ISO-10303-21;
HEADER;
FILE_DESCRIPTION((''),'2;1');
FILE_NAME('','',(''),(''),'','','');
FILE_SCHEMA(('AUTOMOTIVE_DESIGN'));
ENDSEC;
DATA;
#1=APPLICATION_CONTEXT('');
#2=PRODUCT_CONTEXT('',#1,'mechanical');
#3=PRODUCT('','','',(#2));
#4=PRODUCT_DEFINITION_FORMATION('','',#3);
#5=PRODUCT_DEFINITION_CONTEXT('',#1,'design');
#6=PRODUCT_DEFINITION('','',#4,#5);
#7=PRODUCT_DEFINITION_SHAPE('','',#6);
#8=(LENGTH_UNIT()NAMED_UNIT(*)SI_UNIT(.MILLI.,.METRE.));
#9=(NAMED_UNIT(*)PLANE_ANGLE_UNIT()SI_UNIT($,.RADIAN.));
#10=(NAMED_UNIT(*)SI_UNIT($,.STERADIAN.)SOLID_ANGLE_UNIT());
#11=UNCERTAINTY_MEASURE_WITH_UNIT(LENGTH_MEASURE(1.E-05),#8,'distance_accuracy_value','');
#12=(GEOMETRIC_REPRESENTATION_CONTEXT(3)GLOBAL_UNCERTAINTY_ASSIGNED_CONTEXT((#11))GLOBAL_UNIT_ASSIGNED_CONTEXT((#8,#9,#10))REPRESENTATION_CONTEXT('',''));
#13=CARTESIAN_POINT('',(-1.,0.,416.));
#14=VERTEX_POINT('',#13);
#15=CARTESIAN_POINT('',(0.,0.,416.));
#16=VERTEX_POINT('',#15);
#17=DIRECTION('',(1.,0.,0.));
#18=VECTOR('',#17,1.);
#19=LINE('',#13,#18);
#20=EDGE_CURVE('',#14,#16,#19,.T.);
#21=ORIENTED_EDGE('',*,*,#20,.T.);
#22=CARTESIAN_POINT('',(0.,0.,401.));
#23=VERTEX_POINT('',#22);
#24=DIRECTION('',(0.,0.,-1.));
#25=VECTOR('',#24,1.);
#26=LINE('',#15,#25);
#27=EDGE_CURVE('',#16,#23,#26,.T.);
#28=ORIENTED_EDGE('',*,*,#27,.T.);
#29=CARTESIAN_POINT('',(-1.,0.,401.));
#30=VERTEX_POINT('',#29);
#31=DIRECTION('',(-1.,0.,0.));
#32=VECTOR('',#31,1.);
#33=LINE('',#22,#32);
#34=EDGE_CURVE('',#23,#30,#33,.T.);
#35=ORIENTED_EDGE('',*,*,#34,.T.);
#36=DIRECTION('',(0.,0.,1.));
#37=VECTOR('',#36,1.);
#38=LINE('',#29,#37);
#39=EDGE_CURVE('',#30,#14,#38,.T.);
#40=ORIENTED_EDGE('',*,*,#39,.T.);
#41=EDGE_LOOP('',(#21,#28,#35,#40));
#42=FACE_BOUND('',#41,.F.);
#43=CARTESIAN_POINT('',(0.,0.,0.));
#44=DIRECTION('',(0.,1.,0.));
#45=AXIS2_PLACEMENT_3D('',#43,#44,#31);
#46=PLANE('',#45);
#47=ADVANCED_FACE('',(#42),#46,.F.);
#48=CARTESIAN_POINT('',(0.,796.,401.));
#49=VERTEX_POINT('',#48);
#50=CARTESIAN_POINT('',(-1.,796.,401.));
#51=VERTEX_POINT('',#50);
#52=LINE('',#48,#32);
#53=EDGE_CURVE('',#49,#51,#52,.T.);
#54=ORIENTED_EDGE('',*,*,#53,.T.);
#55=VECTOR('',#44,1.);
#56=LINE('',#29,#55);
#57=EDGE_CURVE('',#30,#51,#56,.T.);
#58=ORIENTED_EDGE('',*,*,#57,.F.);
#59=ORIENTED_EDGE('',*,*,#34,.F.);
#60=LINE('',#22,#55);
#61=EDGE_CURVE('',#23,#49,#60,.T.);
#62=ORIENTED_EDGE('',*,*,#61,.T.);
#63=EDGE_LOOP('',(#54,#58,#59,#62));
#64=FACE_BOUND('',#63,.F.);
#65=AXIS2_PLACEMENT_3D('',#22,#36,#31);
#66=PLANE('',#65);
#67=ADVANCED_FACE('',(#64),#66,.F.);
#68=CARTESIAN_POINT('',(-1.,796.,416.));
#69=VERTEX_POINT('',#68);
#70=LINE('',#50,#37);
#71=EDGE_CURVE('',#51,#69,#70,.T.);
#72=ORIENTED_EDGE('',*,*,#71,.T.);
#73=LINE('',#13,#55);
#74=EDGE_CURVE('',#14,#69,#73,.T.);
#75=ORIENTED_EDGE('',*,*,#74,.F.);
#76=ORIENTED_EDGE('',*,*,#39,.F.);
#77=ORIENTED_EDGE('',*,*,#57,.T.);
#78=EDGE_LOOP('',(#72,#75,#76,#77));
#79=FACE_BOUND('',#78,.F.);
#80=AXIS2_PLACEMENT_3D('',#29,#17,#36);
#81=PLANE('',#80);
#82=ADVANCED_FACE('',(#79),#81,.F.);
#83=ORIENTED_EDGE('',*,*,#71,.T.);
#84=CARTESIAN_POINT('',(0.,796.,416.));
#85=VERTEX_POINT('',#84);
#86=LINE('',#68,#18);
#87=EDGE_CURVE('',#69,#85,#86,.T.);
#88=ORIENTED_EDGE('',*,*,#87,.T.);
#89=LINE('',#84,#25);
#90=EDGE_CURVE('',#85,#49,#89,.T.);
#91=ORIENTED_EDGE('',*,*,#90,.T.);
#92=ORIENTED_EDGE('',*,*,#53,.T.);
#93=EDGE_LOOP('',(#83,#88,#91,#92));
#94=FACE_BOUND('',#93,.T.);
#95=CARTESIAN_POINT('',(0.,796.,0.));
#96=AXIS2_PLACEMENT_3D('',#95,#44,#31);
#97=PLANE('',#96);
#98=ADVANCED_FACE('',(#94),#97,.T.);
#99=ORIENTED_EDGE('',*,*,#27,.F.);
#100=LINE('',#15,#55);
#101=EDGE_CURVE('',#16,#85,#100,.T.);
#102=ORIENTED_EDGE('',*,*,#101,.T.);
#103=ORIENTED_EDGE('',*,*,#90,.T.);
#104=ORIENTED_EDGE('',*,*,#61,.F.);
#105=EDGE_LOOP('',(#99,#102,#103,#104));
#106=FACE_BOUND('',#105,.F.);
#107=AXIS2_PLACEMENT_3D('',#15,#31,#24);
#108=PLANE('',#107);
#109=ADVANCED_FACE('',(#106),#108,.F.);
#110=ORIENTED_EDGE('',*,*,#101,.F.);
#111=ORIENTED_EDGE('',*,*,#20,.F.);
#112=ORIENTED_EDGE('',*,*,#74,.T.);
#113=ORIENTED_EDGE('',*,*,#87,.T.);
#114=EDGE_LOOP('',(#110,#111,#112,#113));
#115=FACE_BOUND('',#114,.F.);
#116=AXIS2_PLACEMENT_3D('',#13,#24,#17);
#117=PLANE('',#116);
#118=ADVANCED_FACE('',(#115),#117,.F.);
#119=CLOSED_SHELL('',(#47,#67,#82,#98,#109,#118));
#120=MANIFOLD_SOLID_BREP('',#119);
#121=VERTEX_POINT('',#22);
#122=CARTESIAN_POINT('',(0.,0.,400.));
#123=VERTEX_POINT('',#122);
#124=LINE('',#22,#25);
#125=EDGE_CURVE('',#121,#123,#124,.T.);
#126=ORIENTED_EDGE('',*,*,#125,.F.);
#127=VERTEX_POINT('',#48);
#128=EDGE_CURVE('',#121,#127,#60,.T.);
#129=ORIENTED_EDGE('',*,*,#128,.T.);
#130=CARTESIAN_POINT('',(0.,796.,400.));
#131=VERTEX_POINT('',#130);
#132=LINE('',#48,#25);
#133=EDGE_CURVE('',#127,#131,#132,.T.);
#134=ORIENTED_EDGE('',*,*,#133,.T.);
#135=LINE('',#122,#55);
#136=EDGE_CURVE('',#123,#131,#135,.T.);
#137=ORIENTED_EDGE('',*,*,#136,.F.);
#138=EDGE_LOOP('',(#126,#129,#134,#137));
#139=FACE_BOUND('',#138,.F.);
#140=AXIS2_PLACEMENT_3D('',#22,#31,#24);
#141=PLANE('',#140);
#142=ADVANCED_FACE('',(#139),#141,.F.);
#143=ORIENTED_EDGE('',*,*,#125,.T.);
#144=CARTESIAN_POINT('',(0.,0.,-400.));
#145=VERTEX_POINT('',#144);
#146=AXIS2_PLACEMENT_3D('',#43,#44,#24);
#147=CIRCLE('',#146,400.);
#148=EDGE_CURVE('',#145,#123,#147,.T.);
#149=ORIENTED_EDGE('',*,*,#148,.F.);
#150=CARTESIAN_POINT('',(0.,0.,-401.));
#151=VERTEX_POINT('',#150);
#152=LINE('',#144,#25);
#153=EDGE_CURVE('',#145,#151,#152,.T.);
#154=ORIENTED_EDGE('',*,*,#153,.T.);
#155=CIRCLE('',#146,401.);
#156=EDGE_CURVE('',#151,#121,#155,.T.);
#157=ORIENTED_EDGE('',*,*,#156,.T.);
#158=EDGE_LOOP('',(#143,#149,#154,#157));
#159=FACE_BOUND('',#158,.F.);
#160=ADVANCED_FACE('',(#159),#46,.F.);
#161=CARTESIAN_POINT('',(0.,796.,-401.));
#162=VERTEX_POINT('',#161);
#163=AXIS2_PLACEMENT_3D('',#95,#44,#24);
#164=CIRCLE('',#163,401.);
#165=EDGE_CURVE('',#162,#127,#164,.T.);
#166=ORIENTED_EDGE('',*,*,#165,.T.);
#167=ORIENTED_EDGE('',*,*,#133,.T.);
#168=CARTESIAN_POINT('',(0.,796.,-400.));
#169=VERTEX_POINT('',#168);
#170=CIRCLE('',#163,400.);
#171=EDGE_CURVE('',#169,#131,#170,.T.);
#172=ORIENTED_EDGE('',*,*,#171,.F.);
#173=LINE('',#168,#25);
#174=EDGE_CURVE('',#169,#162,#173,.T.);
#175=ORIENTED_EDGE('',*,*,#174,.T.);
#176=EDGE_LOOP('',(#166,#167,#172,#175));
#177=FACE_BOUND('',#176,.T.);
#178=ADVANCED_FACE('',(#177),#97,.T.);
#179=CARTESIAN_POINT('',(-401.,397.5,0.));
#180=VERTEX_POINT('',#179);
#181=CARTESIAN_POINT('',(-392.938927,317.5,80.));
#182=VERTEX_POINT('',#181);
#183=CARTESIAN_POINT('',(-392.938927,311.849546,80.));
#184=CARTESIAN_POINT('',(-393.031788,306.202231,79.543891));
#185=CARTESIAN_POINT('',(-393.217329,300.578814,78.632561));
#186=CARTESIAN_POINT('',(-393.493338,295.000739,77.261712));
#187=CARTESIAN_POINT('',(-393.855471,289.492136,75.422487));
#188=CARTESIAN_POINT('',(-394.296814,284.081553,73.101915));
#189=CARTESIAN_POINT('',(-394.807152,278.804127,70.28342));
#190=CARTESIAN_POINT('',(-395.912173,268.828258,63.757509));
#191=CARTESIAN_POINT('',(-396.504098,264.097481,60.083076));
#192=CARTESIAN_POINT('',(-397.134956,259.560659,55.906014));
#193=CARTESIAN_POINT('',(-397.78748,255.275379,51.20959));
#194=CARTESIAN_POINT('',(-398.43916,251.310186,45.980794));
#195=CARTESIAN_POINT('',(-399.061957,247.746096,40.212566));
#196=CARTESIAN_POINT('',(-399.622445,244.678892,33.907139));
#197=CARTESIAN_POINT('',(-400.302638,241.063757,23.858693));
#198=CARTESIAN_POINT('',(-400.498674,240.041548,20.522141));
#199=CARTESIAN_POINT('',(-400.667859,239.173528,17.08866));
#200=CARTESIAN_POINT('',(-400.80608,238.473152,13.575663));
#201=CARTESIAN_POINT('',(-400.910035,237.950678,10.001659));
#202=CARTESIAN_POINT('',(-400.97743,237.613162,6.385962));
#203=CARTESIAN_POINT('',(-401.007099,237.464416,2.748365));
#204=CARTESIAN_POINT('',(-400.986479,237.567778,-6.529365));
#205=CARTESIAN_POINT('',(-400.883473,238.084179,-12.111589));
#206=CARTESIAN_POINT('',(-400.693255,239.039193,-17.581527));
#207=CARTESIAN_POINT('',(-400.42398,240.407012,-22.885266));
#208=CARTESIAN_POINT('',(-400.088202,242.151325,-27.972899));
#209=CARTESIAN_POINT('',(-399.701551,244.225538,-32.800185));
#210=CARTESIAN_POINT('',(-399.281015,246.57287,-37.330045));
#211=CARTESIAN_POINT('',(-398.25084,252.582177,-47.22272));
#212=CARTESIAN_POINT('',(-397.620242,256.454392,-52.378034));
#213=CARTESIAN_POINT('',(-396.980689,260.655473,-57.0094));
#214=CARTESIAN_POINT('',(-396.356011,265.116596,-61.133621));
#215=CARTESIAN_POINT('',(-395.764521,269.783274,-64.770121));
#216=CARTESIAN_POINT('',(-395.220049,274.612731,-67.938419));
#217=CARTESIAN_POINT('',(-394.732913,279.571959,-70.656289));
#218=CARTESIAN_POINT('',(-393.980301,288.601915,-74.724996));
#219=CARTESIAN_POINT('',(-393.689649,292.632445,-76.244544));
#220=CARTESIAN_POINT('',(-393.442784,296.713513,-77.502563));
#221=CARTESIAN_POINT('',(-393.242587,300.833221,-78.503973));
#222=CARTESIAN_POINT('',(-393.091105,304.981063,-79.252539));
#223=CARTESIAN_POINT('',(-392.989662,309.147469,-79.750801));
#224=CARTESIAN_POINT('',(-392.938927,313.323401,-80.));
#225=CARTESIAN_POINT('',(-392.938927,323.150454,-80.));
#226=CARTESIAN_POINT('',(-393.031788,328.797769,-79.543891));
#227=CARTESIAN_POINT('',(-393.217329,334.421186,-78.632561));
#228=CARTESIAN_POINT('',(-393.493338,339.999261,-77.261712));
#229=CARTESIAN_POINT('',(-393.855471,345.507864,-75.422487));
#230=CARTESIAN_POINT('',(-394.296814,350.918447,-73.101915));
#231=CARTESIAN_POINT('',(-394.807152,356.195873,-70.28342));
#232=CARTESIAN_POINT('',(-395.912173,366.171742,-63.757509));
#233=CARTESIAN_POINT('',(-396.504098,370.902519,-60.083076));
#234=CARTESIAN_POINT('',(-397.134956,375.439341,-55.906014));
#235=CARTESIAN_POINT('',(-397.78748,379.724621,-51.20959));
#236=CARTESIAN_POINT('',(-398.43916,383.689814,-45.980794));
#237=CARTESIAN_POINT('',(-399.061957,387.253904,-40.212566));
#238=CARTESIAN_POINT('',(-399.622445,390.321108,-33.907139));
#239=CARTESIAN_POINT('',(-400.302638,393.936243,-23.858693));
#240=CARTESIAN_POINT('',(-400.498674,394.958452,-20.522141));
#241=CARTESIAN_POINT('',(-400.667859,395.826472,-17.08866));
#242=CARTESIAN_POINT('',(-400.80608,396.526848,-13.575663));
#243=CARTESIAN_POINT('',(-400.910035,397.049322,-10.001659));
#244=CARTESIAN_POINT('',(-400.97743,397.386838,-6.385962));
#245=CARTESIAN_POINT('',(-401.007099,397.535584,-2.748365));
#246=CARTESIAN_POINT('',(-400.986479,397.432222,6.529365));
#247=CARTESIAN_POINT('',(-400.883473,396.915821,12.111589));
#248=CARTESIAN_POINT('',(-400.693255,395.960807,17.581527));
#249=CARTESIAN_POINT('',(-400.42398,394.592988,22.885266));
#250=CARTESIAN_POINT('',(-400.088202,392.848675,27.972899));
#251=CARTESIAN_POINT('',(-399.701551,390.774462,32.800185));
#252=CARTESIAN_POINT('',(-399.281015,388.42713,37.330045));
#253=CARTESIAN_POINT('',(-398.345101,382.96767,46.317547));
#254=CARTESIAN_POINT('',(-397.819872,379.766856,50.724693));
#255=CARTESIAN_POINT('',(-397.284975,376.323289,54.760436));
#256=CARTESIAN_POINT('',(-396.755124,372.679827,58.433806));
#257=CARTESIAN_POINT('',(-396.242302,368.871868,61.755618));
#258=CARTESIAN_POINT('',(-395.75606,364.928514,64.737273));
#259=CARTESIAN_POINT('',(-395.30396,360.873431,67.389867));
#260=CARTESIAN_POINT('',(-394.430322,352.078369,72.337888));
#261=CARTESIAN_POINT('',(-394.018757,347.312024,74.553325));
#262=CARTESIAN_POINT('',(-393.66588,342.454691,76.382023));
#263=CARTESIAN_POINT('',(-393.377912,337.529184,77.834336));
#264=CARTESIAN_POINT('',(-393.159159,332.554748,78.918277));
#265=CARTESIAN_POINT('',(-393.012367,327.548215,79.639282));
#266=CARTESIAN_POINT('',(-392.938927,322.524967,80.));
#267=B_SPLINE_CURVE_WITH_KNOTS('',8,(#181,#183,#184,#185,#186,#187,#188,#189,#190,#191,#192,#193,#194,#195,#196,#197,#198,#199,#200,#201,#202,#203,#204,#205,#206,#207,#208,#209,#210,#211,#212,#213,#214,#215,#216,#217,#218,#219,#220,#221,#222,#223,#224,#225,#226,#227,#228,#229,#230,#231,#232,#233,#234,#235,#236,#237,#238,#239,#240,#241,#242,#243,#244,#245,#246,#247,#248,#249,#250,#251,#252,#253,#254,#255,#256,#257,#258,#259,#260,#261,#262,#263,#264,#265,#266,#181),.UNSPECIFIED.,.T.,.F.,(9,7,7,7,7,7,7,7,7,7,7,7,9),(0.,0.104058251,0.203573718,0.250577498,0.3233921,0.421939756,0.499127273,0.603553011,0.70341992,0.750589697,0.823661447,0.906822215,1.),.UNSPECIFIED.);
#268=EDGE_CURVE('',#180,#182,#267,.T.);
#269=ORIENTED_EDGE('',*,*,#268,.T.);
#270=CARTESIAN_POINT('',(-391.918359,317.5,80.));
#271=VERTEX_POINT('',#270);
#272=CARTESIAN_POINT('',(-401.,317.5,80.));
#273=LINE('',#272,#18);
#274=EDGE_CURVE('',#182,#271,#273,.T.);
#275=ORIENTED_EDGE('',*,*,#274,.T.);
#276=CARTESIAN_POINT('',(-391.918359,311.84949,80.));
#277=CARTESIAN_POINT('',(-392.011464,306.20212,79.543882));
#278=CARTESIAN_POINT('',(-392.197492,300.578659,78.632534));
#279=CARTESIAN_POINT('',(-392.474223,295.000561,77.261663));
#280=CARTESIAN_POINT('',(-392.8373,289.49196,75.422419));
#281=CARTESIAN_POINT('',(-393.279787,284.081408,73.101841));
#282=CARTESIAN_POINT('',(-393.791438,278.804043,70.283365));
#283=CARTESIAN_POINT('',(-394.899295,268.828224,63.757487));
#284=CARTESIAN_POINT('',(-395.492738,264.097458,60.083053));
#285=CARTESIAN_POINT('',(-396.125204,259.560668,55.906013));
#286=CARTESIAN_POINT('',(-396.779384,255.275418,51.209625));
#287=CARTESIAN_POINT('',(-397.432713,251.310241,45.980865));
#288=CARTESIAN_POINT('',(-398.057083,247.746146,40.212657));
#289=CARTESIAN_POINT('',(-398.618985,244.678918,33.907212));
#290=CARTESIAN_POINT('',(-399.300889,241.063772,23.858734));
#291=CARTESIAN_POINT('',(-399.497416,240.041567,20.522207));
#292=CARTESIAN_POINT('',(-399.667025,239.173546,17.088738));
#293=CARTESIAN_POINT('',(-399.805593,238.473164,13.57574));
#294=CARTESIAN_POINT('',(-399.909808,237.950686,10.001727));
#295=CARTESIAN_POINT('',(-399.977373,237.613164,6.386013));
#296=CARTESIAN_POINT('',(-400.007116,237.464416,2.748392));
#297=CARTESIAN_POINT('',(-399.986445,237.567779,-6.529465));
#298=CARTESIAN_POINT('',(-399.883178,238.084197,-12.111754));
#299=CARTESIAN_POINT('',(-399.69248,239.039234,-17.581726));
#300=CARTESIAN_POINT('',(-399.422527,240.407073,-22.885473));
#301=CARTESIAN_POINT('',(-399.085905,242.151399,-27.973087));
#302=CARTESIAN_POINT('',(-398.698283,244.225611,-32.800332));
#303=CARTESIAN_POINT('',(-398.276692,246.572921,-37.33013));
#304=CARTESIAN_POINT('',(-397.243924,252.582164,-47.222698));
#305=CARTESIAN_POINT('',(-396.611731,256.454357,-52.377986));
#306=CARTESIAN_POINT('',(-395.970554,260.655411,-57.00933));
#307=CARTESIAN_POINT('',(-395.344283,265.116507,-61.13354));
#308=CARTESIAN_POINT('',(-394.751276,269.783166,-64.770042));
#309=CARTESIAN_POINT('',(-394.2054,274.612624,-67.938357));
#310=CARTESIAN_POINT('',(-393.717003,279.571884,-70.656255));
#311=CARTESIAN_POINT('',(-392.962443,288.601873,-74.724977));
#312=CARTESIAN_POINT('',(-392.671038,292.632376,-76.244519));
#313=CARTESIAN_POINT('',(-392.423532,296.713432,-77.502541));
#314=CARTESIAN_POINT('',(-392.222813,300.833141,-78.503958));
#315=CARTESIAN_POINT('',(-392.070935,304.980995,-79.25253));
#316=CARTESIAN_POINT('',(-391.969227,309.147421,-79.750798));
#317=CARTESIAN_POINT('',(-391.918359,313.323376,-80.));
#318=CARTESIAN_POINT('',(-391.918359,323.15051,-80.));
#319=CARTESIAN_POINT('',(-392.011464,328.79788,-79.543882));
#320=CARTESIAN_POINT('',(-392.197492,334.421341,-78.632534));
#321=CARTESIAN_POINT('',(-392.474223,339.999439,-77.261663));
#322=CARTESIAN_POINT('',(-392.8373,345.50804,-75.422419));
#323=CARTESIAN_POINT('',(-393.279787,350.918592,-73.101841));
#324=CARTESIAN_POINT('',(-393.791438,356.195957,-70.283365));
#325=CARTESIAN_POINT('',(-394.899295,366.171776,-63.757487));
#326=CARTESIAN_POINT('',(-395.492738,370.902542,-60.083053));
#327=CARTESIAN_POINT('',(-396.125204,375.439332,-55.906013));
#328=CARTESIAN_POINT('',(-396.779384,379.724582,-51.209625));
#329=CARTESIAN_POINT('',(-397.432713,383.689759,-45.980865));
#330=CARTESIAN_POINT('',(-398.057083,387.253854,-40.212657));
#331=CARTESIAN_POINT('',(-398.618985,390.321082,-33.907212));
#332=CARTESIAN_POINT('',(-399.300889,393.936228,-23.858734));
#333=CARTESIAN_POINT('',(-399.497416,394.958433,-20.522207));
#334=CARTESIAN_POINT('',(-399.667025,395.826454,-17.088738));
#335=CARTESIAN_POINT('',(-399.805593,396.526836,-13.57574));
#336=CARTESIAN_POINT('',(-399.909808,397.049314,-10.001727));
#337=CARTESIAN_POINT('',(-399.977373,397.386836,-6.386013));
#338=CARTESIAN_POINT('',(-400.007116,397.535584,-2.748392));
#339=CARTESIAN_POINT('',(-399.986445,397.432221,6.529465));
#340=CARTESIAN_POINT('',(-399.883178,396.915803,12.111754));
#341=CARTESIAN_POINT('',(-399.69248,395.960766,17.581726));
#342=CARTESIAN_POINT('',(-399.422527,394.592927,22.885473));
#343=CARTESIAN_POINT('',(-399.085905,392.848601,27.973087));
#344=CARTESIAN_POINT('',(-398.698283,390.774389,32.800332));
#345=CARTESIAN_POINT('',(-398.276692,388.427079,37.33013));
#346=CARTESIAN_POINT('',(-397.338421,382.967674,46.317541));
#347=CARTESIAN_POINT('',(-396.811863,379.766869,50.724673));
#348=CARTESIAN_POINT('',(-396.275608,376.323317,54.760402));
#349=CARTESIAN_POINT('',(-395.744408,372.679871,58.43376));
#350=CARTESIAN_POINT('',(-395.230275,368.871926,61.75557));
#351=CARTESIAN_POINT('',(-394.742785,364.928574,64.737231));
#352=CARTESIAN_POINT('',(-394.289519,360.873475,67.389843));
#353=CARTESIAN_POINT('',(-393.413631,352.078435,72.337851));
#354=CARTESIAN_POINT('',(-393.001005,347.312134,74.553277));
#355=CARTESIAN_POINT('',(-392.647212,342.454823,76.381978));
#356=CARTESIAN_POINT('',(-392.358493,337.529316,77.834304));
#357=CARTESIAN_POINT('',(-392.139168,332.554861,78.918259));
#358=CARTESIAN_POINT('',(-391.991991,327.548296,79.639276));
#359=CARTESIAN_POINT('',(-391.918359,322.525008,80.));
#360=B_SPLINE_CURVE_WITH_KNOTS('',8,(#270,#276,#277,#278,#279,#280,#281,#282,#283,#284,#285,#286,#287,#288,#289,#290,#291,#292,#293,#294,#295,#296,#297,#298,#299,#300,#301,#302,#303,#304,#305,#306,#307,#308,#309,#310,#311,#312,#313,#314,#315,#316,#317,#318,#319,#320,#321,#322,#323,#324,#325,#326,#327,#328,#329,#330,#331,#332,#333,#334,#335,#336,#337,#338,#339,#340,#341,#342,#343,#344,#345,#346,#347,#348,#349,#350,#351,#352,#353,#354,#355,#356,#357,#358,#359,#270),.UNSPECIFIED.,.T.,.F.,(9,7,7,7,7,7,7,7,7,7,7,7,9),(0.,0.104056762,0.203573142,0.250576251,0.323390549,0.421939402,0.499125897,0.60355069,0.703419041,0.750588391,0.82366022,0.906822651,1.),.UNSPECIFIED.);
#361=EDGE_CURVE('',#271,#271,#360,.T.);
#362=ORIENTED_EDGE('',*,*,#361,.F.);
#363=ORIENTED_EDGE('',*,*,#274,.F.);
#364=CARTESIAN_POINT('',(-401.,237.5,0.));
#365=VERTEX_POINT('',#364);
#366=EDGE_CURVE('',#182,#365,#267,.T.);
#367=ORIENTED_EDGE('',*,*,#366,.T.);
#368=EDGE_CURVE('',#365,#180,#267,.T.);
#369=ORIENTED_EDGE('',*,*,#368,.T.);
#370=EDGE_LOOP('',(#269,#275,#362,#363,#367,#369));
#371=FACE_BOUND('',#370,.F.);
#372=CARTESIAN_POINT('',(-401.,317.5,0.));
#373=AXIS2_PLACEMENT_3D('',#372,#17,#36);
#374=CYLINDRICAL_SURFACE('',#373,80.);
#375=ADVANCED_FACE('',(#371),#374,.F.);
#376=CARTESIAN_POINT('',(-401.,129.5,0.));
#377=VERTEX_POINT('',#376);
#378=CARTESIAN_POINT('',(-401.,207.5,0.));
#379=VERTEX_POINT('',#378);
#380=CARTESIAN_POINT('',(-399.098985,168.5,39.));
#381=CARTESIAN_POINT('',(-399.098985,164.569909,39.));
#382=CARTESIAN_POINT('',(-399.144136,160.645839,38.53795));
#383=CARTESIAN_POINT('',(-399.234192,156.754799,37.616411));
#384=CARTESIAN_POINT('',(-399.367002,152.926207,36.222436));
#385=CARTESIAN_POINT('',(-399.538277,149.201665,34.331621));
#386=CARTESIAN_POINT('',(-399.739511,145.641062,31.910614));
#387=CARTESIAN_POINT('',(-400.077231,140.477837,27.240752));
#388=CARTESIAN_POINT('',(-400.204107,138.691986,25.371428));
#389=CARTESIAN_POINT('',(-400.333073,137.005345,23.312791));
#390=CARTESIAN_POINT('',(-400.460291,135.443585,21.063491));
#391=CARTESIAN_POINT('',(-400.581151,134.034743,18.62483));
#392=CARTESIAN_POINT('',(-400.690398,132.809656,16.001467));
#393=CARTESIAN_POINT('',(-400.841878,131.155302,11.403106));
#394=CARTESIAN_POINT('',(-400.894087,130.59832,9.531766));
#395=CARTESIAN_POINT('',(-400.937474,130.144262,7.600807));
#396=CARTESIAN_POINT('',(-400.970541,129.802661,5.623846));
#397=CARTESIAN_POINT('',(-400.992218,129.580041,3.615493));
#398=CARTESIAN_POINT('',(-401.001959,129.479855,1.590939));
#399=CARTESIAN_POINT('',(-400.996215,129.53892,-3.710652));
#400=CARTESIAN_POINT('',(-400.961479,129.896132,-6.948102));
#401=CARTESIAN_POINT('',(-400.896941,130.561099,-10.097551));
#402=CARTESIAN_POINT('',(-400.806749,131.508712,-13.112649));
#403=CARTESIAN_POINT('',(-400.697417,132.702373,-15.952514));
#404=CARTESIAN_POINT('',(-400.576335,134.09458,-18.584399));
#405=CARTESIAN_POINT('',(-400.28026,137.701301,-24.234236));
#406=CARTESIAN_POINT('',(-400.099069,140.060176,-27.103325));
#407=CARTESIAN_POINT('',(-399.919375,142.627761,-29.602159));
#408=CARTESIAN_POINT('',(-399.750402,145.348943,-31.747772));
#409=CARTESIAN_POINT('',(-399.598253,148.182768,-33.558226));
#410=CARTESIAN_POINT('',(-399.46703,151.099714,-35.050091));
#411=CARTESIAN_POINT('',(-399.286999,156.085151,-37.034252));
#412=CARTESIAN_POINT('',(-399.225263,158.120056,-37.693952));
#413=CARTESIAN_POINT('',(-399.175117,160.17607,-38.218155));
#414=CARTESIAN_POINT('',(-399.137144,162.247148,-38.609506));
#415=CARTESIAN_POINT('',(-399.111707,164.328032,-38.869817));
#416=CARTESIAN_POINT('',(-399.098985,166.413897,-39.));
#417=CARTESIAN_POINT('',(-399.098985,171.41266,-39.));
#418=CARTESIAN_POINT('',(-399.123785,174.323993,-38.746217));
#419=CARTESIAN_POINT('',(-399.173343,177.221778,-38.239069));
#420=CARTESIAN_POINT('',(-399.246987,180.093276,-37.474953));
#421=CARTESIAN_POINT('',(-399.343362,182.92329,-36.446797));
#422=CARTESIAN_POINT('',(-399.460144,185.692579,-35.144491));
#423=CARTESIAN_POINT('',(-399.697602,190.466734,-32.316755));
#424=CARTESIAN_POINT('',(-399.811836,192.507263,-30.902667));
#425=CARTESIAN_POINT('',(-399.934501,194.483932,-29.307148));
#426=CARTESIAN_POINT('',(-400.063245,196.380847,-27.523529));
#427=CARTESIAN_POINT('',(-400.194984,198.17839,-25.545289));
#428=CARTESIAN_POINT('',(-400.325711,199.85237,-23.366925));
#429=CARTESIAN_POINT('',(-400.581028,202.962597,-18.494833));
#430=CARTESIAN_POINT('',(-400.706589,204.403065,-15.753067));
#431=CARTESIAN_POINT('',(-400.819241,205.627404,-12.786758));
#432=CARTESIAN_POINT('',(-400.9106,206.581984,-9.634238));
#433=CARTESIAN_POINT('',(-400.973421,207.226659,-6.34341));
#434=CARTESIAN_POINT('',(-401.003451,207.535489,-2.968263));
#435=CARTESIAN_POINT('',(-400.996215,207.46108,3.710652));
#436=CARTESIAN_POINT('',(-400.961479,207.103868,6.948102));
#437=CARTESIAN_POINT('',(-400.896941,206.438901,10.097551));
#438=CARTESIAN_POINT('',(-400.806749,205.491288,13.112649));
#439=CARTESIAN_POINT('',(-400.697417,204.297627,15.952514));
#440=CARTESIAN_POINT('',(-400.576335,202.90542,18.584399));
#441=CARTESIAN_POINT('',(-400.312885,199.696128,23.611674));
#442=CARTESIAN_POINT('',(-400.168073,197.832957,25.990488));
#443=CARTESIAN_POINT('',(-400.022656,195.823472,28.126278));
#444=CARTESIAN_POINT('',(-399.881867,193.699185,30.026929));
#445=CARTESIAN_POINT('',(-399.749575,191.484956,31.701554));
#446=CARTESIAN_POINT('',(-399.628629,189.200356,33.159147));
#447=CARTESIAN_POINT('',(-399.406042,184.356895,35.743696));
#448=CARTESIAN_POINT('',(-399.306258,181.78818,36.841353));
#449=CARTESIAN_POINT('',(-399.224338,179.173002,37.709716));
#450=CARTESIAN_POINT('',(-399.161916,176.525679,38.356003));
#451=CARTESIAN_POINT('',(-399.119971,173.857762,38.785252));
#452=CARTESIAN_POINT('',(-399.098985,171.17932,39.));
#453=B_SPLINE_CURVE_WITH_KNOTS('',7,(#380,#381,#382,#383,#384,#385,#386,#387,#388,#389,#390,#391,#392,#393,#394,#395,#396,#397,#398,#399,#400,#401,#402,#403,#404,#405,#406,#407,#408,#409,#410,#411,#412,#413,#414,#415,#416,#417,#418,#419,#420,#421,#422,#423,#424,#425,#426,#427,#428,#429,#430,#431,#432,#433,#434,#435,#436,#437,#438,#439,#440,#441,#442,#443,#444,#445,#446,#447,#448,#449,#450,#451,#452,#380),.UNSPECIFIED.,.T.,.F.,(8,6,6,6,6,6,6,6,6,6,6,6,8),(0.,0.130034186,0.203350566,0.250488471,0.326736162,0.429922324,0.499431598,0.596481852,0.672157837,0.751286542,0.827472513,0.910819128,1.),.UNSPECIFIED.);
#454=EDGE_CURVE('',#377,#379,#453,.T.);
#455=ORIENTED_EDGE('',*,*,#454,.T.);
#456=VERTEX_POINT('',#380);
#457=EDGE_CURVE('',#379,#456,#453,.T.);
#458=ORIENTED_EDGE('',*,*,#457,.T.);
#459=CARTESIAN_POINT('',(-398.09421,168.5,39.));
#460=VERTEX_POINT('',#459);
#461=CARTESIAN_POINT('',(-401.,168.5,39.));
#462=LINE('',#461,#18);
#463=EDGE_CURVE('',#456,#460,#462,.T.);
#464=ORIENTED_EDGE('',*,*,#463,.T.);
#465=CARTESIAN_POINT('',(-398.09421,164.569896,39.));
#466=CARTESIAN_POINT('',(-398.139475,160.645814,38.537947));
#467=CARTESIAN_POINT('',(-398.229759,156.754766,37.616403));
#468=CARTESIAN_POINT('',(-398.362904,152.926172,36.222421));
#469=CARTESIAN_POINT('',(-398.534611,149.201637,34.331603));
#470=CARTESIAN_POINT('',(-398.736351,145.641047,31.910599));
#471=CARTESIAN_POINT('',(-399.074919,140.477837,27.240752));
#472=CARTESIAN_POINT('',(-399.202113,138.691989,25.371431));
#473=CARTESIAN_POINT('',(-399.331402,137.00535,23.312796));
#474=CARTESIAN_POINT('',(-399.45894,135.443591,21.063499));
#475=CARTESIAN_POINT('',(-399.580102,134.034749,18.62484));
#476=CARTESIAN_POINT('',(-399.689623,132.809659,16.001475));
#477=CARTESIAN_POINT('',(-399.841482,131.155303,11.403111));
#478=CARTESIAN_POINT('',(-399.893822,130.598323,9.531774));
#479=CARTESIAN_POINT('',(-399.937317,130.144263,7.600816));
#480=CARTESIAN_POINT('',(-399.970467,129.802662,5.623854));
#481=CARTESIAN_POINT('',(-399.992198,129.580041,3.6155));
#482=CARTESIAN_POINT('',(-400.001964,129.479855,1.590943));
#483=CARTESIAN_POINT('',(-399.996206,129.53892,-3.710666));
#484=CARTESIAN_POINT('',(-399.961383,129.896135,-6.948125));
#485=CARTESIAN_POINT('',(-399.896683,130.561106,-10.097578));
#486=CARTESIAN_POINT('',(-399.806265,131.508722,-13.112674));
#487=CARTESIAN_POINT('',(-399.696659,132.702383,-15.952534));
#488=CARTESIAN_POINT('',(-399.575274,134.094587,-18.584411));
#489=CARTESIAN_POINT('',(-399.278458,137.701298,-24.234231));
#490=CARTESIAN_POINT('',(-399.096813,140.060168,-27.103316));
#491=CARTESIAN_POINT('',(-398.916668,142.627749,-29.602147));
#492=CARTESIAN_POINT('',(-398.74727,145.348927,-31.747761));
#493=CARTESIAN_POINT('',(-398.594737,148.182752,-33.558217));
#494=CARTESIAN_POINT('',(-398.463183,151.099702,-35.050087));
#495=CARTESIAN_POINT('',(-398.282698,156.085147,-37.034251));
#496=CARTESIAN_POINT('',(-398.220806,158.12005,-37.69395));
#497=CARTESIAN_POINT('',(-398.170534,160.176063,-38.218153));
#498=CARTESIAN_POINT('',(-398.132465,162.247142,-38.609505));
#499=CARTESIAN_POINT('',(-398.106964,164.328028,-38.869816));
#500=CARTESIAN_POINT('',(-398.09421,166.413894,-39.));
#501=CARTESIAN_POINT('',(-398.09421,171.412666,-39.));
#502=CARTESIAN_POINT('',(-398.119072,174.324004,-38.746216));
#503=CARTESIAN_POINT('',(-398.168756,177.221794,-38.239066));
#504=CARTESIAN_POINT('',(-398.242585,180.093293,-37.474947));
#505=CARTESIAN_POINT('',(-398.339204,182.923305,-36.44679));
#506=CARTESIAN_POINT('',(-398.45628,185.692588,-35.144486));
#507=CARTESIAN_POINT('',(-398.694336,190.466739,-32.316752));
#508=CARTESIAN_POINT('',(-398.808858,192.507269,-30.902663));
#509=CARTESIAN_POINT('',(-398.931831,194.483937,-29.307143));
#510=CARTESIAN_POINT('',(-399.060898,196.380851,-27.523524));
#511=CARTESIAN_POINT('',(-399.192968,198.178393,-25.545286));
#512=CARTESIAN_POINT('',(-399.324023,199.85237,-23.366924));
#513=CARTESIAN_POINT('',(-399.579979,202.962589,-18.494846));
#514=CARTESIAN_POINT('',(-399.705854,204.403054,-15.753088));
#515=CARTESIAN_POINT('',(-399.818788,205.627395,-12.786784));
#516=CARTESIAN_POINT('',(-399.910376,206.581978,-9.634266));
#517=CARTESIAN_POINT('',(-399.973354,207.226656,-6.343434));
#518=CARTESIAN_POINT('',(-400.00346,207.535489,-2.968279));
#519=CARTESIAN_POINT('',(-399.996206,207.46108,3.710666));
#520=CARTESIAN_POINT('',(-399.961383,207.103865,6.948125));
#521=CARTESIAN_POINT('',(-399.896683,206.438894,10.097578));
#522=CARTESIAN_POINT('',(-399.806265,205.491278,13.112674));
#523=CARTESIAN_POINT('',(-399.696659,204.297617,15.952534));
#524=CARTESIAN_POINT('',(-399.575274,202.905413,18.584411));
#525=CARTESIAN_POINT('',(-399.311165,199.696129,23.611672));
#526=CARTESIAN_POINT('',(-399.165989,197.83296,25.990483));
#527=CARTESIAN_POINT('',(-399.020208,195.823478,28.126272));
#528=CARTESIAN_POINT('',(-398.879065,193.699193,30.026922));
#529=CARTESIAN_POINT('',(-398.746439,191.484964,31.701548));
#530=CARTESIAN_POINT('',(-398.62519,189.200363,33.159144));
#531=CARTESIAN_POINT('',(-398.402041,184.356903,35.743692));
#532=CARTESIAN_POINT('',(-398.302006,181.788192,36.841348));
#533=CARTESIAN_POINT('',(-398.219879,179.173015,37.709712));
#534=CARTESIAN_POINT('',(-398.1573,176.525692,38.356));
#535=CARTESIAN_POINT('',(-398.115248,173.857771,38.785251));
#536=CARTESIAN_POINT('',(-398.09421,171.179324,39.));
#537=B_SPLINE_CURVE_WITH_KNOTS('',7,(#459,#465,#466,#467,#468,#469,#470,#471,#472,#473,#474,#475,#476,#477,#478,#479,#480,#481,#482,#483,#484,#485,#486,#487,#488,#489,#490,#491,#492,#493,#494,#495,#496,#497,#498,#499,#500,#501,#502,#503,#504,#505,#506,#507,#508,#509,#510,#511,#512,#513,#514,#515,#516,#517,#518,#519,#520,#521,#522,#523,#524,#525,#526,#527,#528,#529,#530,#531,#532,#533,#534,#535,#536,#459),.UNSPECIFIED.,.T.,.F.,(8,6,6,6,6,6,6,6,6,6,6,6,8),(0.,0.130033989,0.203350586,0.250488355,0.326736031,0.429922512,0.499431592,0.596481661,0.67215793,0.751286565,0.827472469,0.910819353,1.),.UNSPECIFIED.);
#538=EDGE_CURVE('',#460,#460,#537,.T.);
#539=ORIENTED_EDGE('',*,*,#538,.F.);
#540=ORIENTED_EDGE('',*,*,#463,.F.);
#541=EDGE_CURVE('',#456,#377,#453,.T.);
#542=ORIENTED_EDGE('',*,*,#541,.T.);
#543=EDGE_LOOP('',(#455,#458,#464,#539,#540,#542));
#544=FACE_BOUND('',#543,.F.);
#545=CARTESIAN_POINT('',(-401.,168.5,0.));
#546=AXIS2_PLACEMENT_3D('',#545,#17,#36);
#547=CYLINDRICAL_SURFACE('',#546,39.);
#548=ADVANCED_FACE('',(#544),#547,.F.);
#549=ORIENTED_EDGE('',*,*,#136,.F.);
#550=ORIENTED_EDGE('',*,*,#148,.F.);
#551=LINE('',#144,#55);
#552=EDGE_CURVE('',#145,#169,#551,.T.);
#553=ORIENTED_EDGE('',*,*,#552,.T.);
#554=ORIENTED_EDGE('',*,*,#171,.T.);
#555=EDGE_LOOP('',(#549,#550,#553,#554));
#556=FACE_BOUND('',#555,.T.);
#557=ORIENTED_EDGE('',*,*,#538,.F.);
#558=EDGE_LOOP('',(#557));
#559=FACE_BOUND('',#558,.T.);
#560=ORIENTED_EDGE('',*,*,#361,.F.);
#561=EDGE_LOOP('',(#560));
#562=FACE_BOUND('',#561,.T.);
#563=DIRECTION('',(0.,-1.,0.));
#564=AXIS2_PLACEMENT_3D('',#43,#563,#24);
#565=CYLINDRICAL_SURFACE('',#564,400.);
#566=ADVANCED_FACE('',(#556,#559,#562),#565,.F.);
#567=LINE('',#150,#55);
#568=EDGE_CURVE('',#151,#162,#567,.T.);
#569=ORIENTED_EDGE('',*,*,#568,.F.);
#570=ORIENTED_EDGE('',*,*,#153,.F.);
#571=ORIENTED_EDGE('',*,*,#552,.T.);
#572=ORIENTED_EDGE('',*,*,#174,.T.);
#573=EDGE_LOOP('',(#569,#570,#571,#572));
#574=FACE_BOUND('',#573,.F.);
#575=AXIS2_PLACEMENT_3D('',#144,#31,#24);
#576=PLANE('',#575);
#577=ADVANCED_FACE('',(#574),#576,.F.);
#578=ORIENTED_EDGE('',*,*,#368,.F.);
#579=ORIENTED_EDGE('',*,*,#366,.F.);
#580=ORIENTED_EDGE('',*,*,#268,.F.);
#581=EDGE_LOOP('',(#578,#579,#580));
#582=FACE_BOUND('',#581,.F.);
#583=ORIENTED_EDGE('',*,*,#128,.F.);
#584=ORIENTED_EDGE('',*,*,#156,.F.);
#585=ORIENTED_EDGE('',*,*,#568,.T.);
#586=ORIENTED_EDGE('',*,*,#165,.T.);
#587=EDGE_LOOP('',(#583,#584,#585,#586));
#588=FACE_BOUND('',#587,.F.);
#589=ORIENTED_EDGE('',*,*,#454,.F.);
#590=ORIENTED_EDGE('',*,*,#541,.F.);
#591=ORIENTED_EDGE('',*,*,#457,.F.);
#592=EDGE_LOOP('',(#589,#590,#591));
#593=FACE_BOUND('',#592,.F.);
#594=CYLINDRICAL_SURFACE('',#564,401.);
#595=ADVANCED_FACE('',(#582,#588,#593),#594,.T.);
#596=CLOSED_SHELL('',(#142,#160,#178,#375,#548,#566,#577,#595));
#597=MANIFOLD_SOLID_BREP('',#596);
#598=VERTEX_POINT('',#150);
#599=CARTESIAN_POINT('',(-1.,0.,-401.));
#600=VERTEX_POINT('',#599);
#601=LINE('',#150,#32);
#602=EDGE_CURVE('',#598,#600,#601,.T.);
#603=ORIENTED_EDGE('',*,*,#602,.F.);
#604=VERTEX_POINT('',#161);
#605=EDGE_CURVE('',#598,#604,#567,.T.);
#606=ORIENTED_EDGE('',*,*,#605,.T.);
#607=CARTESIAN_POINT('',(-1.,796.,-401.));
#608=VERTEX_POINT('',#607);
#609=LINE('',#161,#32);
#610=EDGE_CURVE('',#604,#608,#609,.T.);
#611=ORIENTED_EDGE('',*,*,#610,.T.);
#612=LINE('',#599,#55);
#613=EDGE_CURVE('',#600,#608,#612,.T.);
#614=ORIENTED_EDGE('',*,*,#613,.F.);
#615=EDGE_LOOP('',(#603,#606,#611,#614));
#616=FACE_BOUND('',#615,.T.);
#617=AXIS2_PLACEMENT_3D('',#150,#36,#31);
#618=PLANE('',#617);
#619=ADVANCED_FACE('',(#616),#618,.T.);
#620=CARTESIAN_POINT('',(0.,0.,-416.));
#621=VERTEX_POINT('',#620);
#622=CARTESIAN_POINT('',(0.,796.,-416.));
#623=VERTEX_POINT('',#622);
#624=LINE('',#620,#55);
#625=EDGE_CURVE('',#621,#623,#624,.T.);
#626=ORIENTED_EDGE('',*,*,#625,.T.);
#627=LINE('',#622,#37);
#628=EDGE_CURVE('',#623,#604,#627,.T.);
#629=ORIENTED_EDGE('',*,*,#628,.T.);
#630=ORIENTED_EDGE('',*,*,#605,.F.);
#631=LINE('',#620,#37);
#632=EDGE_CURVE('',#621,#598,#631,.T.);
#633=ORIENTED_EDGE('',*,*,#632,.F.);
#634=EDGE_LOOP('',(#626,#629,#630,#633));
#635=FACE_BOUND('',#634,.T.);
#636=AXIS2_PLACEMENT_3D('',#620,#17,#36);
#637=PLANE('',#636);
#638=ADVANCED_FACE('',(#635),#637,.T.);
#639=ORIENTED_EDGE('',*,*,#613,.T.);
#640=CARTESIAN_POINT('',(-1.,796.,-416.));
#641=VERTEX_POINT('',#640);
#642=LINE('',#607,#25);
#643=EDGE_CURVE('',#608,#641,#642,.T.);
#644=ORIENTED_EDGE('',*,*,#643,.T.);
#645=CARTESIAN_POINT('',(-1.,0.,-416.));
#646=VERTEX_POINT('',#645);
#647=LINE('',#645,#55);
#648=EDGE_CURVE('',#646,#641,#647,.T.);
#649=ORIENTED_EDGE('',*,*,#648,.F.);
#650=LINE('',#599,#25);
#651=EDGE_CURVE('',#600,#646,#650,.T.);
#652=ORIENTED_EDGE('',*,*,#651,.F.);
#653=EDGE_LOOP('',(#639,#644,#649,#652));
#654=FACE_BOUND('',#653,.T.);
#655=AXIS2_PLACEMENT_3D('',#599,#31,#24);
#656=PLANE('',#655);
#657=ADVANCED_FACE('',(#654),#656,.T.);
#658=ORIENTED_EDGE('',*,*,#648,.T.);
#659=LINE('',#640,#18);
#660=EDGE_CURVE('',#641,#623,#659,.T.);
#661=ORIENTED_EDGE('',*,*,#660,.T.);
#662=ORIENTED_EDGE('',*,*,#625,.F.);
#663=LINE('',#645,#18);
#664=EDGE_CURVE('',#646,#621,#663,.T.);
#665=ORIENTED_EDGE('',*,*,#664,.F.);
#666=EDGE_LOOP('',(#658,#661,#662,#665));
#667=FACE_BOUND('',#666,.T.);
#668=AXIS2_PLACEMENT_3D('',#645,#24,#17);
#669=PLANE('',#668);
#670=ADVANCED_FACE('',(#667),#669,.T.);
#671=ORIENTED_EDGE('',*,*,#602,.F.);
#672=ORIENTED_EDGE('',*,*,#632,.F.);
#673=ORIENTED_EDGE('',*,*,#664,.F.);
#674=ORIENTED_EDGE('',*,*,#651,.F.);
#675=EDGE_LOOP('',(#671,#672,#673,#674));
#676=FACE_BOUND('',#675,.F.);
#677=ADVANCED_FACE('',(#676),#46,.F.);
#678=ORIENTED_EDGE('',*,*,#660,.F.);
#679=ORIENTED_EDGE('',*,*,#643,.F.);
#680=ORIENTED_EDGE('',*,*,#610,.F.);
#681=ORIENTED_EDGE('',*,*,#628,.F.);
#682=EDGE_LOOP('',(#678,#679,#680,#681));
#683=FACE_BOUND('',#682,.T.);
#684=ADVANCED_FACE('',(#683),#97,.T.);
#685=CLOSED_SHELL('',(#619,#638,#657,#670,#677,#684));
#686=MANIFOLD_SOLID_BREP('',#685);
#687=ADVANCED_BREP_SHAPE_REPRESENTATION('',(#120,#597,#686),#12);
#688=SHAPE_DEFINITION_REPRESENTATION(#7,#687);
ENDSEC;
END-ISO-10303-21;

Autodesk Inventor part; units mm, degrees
ref_plane "YZ Plane" through (0, 0, 0) normal (1, 0, 0) x (0, 1, 0)
ref_plane "XZ Plane" through (0, 0, 0) normal (0, 1, 0) x (-1, 0, 0)
sketch "Sketch1" plane through (0, 0, 0) normal (0, 1, 0) x (-1, 0, 0)
  arc A0 (0, -401) -> (0, 401) centre (0, 0) ccw
  line L0 (0, 0) -> (0, 401) construction
  line L1 (0, 0) -> (401, 0) construction
  line L2 (0, 0) -> (0, -401) construction
  arc A1 (0, -400) -> (0, 400) centre (0, 0) ccw
  line L3 (0, 0) -> (0, 400) construction
  line L4 (0, 0) -> (0, -400) construction
  line L5 (0, 401) -> (0, 400)
  line L6 (0, -400) -> (0, -401)
  dimension "d0" = 401
  dimension "d1" = 90
  dimension "d2" = 180
  dimension "d3" = 400
  dimension "d4" = 180
extrude "Extrusion1" add sketch "Sketch1" along normal blind 796
sketch "Sketch2" plane through (0, 0, 0) normal (0, 1, 0) x (-1, 0, 0)
  line L0 (0, -401) -> (1, -401)
  line L1 (1, -401) -> (1, -416)
  line L2 (1, -416) -> (0, -416)
  line L3 (0, -416) -> (0, -401)
  point P0 (0, 0)
  dimension "d7" = 1
  dimension "d8" = 15
extrude "Extrusion2" add sketch "Sketch2" along normal blind 796
sketch "Sketch3" plane through (0, 0, 0) normal (0, 1, 0) x (-1, 0, 0)
  line L0 (0, 401) -> (1, 401)
  line L1 (1, 401) -> (1, 416)
  line L2 (1, 416) -> (0, 416)
  line L3 (0, 416) -> (0, 401)
  point P0 (0, 0)
  dimension "d11" = 1
  dimension "d12" = 15
extrude "Extrusion3" add sketch "Sketch3" along normal blind 796
sketch "Sketch4" plane through (0, 0, 0) normal (0, 1, 0) x (-1, 0, 0)
  line L0 (0, 0) -> (401, 0)
  dimension "d15" = 401
ref_plane "Work Plane1" through (-401, 0, 0) normal (-1, 0, 0) x (0, -1, 0)
sketch "Sketch5" plane through (-401, 0, 0) normal (-1, 0, 0) x (0, -1, 0)
  circle A0 centre (-168.5, 0) radius 39
  line L0 (-796, 401) -> (-796, -401) projected
  point P0 (0, 0)
  dimension "d16" = 78
  dimension "d17" = 627.5
hole "Hole1" at (-401, 168.5, 0) direction (1, 0, 0) diameter 78 end through all
sketch "Sketch6" plane through (-401, 0, 0) normal (-1, 0, 0) x (0, -1, 0)
  circle A0 centre (-317.5, 0) radius 80
  line L0 (-796, 401) -> (-796, -401) projected
  point P0 (0, 0)
  dimension "d25" = 160
  dimension "d26" = 478.5
hole "Hole2" at (-401, 317.5, 0) direction (1, 0, 0) diameter 160 end through all
properties part number "Upper Front Half"
